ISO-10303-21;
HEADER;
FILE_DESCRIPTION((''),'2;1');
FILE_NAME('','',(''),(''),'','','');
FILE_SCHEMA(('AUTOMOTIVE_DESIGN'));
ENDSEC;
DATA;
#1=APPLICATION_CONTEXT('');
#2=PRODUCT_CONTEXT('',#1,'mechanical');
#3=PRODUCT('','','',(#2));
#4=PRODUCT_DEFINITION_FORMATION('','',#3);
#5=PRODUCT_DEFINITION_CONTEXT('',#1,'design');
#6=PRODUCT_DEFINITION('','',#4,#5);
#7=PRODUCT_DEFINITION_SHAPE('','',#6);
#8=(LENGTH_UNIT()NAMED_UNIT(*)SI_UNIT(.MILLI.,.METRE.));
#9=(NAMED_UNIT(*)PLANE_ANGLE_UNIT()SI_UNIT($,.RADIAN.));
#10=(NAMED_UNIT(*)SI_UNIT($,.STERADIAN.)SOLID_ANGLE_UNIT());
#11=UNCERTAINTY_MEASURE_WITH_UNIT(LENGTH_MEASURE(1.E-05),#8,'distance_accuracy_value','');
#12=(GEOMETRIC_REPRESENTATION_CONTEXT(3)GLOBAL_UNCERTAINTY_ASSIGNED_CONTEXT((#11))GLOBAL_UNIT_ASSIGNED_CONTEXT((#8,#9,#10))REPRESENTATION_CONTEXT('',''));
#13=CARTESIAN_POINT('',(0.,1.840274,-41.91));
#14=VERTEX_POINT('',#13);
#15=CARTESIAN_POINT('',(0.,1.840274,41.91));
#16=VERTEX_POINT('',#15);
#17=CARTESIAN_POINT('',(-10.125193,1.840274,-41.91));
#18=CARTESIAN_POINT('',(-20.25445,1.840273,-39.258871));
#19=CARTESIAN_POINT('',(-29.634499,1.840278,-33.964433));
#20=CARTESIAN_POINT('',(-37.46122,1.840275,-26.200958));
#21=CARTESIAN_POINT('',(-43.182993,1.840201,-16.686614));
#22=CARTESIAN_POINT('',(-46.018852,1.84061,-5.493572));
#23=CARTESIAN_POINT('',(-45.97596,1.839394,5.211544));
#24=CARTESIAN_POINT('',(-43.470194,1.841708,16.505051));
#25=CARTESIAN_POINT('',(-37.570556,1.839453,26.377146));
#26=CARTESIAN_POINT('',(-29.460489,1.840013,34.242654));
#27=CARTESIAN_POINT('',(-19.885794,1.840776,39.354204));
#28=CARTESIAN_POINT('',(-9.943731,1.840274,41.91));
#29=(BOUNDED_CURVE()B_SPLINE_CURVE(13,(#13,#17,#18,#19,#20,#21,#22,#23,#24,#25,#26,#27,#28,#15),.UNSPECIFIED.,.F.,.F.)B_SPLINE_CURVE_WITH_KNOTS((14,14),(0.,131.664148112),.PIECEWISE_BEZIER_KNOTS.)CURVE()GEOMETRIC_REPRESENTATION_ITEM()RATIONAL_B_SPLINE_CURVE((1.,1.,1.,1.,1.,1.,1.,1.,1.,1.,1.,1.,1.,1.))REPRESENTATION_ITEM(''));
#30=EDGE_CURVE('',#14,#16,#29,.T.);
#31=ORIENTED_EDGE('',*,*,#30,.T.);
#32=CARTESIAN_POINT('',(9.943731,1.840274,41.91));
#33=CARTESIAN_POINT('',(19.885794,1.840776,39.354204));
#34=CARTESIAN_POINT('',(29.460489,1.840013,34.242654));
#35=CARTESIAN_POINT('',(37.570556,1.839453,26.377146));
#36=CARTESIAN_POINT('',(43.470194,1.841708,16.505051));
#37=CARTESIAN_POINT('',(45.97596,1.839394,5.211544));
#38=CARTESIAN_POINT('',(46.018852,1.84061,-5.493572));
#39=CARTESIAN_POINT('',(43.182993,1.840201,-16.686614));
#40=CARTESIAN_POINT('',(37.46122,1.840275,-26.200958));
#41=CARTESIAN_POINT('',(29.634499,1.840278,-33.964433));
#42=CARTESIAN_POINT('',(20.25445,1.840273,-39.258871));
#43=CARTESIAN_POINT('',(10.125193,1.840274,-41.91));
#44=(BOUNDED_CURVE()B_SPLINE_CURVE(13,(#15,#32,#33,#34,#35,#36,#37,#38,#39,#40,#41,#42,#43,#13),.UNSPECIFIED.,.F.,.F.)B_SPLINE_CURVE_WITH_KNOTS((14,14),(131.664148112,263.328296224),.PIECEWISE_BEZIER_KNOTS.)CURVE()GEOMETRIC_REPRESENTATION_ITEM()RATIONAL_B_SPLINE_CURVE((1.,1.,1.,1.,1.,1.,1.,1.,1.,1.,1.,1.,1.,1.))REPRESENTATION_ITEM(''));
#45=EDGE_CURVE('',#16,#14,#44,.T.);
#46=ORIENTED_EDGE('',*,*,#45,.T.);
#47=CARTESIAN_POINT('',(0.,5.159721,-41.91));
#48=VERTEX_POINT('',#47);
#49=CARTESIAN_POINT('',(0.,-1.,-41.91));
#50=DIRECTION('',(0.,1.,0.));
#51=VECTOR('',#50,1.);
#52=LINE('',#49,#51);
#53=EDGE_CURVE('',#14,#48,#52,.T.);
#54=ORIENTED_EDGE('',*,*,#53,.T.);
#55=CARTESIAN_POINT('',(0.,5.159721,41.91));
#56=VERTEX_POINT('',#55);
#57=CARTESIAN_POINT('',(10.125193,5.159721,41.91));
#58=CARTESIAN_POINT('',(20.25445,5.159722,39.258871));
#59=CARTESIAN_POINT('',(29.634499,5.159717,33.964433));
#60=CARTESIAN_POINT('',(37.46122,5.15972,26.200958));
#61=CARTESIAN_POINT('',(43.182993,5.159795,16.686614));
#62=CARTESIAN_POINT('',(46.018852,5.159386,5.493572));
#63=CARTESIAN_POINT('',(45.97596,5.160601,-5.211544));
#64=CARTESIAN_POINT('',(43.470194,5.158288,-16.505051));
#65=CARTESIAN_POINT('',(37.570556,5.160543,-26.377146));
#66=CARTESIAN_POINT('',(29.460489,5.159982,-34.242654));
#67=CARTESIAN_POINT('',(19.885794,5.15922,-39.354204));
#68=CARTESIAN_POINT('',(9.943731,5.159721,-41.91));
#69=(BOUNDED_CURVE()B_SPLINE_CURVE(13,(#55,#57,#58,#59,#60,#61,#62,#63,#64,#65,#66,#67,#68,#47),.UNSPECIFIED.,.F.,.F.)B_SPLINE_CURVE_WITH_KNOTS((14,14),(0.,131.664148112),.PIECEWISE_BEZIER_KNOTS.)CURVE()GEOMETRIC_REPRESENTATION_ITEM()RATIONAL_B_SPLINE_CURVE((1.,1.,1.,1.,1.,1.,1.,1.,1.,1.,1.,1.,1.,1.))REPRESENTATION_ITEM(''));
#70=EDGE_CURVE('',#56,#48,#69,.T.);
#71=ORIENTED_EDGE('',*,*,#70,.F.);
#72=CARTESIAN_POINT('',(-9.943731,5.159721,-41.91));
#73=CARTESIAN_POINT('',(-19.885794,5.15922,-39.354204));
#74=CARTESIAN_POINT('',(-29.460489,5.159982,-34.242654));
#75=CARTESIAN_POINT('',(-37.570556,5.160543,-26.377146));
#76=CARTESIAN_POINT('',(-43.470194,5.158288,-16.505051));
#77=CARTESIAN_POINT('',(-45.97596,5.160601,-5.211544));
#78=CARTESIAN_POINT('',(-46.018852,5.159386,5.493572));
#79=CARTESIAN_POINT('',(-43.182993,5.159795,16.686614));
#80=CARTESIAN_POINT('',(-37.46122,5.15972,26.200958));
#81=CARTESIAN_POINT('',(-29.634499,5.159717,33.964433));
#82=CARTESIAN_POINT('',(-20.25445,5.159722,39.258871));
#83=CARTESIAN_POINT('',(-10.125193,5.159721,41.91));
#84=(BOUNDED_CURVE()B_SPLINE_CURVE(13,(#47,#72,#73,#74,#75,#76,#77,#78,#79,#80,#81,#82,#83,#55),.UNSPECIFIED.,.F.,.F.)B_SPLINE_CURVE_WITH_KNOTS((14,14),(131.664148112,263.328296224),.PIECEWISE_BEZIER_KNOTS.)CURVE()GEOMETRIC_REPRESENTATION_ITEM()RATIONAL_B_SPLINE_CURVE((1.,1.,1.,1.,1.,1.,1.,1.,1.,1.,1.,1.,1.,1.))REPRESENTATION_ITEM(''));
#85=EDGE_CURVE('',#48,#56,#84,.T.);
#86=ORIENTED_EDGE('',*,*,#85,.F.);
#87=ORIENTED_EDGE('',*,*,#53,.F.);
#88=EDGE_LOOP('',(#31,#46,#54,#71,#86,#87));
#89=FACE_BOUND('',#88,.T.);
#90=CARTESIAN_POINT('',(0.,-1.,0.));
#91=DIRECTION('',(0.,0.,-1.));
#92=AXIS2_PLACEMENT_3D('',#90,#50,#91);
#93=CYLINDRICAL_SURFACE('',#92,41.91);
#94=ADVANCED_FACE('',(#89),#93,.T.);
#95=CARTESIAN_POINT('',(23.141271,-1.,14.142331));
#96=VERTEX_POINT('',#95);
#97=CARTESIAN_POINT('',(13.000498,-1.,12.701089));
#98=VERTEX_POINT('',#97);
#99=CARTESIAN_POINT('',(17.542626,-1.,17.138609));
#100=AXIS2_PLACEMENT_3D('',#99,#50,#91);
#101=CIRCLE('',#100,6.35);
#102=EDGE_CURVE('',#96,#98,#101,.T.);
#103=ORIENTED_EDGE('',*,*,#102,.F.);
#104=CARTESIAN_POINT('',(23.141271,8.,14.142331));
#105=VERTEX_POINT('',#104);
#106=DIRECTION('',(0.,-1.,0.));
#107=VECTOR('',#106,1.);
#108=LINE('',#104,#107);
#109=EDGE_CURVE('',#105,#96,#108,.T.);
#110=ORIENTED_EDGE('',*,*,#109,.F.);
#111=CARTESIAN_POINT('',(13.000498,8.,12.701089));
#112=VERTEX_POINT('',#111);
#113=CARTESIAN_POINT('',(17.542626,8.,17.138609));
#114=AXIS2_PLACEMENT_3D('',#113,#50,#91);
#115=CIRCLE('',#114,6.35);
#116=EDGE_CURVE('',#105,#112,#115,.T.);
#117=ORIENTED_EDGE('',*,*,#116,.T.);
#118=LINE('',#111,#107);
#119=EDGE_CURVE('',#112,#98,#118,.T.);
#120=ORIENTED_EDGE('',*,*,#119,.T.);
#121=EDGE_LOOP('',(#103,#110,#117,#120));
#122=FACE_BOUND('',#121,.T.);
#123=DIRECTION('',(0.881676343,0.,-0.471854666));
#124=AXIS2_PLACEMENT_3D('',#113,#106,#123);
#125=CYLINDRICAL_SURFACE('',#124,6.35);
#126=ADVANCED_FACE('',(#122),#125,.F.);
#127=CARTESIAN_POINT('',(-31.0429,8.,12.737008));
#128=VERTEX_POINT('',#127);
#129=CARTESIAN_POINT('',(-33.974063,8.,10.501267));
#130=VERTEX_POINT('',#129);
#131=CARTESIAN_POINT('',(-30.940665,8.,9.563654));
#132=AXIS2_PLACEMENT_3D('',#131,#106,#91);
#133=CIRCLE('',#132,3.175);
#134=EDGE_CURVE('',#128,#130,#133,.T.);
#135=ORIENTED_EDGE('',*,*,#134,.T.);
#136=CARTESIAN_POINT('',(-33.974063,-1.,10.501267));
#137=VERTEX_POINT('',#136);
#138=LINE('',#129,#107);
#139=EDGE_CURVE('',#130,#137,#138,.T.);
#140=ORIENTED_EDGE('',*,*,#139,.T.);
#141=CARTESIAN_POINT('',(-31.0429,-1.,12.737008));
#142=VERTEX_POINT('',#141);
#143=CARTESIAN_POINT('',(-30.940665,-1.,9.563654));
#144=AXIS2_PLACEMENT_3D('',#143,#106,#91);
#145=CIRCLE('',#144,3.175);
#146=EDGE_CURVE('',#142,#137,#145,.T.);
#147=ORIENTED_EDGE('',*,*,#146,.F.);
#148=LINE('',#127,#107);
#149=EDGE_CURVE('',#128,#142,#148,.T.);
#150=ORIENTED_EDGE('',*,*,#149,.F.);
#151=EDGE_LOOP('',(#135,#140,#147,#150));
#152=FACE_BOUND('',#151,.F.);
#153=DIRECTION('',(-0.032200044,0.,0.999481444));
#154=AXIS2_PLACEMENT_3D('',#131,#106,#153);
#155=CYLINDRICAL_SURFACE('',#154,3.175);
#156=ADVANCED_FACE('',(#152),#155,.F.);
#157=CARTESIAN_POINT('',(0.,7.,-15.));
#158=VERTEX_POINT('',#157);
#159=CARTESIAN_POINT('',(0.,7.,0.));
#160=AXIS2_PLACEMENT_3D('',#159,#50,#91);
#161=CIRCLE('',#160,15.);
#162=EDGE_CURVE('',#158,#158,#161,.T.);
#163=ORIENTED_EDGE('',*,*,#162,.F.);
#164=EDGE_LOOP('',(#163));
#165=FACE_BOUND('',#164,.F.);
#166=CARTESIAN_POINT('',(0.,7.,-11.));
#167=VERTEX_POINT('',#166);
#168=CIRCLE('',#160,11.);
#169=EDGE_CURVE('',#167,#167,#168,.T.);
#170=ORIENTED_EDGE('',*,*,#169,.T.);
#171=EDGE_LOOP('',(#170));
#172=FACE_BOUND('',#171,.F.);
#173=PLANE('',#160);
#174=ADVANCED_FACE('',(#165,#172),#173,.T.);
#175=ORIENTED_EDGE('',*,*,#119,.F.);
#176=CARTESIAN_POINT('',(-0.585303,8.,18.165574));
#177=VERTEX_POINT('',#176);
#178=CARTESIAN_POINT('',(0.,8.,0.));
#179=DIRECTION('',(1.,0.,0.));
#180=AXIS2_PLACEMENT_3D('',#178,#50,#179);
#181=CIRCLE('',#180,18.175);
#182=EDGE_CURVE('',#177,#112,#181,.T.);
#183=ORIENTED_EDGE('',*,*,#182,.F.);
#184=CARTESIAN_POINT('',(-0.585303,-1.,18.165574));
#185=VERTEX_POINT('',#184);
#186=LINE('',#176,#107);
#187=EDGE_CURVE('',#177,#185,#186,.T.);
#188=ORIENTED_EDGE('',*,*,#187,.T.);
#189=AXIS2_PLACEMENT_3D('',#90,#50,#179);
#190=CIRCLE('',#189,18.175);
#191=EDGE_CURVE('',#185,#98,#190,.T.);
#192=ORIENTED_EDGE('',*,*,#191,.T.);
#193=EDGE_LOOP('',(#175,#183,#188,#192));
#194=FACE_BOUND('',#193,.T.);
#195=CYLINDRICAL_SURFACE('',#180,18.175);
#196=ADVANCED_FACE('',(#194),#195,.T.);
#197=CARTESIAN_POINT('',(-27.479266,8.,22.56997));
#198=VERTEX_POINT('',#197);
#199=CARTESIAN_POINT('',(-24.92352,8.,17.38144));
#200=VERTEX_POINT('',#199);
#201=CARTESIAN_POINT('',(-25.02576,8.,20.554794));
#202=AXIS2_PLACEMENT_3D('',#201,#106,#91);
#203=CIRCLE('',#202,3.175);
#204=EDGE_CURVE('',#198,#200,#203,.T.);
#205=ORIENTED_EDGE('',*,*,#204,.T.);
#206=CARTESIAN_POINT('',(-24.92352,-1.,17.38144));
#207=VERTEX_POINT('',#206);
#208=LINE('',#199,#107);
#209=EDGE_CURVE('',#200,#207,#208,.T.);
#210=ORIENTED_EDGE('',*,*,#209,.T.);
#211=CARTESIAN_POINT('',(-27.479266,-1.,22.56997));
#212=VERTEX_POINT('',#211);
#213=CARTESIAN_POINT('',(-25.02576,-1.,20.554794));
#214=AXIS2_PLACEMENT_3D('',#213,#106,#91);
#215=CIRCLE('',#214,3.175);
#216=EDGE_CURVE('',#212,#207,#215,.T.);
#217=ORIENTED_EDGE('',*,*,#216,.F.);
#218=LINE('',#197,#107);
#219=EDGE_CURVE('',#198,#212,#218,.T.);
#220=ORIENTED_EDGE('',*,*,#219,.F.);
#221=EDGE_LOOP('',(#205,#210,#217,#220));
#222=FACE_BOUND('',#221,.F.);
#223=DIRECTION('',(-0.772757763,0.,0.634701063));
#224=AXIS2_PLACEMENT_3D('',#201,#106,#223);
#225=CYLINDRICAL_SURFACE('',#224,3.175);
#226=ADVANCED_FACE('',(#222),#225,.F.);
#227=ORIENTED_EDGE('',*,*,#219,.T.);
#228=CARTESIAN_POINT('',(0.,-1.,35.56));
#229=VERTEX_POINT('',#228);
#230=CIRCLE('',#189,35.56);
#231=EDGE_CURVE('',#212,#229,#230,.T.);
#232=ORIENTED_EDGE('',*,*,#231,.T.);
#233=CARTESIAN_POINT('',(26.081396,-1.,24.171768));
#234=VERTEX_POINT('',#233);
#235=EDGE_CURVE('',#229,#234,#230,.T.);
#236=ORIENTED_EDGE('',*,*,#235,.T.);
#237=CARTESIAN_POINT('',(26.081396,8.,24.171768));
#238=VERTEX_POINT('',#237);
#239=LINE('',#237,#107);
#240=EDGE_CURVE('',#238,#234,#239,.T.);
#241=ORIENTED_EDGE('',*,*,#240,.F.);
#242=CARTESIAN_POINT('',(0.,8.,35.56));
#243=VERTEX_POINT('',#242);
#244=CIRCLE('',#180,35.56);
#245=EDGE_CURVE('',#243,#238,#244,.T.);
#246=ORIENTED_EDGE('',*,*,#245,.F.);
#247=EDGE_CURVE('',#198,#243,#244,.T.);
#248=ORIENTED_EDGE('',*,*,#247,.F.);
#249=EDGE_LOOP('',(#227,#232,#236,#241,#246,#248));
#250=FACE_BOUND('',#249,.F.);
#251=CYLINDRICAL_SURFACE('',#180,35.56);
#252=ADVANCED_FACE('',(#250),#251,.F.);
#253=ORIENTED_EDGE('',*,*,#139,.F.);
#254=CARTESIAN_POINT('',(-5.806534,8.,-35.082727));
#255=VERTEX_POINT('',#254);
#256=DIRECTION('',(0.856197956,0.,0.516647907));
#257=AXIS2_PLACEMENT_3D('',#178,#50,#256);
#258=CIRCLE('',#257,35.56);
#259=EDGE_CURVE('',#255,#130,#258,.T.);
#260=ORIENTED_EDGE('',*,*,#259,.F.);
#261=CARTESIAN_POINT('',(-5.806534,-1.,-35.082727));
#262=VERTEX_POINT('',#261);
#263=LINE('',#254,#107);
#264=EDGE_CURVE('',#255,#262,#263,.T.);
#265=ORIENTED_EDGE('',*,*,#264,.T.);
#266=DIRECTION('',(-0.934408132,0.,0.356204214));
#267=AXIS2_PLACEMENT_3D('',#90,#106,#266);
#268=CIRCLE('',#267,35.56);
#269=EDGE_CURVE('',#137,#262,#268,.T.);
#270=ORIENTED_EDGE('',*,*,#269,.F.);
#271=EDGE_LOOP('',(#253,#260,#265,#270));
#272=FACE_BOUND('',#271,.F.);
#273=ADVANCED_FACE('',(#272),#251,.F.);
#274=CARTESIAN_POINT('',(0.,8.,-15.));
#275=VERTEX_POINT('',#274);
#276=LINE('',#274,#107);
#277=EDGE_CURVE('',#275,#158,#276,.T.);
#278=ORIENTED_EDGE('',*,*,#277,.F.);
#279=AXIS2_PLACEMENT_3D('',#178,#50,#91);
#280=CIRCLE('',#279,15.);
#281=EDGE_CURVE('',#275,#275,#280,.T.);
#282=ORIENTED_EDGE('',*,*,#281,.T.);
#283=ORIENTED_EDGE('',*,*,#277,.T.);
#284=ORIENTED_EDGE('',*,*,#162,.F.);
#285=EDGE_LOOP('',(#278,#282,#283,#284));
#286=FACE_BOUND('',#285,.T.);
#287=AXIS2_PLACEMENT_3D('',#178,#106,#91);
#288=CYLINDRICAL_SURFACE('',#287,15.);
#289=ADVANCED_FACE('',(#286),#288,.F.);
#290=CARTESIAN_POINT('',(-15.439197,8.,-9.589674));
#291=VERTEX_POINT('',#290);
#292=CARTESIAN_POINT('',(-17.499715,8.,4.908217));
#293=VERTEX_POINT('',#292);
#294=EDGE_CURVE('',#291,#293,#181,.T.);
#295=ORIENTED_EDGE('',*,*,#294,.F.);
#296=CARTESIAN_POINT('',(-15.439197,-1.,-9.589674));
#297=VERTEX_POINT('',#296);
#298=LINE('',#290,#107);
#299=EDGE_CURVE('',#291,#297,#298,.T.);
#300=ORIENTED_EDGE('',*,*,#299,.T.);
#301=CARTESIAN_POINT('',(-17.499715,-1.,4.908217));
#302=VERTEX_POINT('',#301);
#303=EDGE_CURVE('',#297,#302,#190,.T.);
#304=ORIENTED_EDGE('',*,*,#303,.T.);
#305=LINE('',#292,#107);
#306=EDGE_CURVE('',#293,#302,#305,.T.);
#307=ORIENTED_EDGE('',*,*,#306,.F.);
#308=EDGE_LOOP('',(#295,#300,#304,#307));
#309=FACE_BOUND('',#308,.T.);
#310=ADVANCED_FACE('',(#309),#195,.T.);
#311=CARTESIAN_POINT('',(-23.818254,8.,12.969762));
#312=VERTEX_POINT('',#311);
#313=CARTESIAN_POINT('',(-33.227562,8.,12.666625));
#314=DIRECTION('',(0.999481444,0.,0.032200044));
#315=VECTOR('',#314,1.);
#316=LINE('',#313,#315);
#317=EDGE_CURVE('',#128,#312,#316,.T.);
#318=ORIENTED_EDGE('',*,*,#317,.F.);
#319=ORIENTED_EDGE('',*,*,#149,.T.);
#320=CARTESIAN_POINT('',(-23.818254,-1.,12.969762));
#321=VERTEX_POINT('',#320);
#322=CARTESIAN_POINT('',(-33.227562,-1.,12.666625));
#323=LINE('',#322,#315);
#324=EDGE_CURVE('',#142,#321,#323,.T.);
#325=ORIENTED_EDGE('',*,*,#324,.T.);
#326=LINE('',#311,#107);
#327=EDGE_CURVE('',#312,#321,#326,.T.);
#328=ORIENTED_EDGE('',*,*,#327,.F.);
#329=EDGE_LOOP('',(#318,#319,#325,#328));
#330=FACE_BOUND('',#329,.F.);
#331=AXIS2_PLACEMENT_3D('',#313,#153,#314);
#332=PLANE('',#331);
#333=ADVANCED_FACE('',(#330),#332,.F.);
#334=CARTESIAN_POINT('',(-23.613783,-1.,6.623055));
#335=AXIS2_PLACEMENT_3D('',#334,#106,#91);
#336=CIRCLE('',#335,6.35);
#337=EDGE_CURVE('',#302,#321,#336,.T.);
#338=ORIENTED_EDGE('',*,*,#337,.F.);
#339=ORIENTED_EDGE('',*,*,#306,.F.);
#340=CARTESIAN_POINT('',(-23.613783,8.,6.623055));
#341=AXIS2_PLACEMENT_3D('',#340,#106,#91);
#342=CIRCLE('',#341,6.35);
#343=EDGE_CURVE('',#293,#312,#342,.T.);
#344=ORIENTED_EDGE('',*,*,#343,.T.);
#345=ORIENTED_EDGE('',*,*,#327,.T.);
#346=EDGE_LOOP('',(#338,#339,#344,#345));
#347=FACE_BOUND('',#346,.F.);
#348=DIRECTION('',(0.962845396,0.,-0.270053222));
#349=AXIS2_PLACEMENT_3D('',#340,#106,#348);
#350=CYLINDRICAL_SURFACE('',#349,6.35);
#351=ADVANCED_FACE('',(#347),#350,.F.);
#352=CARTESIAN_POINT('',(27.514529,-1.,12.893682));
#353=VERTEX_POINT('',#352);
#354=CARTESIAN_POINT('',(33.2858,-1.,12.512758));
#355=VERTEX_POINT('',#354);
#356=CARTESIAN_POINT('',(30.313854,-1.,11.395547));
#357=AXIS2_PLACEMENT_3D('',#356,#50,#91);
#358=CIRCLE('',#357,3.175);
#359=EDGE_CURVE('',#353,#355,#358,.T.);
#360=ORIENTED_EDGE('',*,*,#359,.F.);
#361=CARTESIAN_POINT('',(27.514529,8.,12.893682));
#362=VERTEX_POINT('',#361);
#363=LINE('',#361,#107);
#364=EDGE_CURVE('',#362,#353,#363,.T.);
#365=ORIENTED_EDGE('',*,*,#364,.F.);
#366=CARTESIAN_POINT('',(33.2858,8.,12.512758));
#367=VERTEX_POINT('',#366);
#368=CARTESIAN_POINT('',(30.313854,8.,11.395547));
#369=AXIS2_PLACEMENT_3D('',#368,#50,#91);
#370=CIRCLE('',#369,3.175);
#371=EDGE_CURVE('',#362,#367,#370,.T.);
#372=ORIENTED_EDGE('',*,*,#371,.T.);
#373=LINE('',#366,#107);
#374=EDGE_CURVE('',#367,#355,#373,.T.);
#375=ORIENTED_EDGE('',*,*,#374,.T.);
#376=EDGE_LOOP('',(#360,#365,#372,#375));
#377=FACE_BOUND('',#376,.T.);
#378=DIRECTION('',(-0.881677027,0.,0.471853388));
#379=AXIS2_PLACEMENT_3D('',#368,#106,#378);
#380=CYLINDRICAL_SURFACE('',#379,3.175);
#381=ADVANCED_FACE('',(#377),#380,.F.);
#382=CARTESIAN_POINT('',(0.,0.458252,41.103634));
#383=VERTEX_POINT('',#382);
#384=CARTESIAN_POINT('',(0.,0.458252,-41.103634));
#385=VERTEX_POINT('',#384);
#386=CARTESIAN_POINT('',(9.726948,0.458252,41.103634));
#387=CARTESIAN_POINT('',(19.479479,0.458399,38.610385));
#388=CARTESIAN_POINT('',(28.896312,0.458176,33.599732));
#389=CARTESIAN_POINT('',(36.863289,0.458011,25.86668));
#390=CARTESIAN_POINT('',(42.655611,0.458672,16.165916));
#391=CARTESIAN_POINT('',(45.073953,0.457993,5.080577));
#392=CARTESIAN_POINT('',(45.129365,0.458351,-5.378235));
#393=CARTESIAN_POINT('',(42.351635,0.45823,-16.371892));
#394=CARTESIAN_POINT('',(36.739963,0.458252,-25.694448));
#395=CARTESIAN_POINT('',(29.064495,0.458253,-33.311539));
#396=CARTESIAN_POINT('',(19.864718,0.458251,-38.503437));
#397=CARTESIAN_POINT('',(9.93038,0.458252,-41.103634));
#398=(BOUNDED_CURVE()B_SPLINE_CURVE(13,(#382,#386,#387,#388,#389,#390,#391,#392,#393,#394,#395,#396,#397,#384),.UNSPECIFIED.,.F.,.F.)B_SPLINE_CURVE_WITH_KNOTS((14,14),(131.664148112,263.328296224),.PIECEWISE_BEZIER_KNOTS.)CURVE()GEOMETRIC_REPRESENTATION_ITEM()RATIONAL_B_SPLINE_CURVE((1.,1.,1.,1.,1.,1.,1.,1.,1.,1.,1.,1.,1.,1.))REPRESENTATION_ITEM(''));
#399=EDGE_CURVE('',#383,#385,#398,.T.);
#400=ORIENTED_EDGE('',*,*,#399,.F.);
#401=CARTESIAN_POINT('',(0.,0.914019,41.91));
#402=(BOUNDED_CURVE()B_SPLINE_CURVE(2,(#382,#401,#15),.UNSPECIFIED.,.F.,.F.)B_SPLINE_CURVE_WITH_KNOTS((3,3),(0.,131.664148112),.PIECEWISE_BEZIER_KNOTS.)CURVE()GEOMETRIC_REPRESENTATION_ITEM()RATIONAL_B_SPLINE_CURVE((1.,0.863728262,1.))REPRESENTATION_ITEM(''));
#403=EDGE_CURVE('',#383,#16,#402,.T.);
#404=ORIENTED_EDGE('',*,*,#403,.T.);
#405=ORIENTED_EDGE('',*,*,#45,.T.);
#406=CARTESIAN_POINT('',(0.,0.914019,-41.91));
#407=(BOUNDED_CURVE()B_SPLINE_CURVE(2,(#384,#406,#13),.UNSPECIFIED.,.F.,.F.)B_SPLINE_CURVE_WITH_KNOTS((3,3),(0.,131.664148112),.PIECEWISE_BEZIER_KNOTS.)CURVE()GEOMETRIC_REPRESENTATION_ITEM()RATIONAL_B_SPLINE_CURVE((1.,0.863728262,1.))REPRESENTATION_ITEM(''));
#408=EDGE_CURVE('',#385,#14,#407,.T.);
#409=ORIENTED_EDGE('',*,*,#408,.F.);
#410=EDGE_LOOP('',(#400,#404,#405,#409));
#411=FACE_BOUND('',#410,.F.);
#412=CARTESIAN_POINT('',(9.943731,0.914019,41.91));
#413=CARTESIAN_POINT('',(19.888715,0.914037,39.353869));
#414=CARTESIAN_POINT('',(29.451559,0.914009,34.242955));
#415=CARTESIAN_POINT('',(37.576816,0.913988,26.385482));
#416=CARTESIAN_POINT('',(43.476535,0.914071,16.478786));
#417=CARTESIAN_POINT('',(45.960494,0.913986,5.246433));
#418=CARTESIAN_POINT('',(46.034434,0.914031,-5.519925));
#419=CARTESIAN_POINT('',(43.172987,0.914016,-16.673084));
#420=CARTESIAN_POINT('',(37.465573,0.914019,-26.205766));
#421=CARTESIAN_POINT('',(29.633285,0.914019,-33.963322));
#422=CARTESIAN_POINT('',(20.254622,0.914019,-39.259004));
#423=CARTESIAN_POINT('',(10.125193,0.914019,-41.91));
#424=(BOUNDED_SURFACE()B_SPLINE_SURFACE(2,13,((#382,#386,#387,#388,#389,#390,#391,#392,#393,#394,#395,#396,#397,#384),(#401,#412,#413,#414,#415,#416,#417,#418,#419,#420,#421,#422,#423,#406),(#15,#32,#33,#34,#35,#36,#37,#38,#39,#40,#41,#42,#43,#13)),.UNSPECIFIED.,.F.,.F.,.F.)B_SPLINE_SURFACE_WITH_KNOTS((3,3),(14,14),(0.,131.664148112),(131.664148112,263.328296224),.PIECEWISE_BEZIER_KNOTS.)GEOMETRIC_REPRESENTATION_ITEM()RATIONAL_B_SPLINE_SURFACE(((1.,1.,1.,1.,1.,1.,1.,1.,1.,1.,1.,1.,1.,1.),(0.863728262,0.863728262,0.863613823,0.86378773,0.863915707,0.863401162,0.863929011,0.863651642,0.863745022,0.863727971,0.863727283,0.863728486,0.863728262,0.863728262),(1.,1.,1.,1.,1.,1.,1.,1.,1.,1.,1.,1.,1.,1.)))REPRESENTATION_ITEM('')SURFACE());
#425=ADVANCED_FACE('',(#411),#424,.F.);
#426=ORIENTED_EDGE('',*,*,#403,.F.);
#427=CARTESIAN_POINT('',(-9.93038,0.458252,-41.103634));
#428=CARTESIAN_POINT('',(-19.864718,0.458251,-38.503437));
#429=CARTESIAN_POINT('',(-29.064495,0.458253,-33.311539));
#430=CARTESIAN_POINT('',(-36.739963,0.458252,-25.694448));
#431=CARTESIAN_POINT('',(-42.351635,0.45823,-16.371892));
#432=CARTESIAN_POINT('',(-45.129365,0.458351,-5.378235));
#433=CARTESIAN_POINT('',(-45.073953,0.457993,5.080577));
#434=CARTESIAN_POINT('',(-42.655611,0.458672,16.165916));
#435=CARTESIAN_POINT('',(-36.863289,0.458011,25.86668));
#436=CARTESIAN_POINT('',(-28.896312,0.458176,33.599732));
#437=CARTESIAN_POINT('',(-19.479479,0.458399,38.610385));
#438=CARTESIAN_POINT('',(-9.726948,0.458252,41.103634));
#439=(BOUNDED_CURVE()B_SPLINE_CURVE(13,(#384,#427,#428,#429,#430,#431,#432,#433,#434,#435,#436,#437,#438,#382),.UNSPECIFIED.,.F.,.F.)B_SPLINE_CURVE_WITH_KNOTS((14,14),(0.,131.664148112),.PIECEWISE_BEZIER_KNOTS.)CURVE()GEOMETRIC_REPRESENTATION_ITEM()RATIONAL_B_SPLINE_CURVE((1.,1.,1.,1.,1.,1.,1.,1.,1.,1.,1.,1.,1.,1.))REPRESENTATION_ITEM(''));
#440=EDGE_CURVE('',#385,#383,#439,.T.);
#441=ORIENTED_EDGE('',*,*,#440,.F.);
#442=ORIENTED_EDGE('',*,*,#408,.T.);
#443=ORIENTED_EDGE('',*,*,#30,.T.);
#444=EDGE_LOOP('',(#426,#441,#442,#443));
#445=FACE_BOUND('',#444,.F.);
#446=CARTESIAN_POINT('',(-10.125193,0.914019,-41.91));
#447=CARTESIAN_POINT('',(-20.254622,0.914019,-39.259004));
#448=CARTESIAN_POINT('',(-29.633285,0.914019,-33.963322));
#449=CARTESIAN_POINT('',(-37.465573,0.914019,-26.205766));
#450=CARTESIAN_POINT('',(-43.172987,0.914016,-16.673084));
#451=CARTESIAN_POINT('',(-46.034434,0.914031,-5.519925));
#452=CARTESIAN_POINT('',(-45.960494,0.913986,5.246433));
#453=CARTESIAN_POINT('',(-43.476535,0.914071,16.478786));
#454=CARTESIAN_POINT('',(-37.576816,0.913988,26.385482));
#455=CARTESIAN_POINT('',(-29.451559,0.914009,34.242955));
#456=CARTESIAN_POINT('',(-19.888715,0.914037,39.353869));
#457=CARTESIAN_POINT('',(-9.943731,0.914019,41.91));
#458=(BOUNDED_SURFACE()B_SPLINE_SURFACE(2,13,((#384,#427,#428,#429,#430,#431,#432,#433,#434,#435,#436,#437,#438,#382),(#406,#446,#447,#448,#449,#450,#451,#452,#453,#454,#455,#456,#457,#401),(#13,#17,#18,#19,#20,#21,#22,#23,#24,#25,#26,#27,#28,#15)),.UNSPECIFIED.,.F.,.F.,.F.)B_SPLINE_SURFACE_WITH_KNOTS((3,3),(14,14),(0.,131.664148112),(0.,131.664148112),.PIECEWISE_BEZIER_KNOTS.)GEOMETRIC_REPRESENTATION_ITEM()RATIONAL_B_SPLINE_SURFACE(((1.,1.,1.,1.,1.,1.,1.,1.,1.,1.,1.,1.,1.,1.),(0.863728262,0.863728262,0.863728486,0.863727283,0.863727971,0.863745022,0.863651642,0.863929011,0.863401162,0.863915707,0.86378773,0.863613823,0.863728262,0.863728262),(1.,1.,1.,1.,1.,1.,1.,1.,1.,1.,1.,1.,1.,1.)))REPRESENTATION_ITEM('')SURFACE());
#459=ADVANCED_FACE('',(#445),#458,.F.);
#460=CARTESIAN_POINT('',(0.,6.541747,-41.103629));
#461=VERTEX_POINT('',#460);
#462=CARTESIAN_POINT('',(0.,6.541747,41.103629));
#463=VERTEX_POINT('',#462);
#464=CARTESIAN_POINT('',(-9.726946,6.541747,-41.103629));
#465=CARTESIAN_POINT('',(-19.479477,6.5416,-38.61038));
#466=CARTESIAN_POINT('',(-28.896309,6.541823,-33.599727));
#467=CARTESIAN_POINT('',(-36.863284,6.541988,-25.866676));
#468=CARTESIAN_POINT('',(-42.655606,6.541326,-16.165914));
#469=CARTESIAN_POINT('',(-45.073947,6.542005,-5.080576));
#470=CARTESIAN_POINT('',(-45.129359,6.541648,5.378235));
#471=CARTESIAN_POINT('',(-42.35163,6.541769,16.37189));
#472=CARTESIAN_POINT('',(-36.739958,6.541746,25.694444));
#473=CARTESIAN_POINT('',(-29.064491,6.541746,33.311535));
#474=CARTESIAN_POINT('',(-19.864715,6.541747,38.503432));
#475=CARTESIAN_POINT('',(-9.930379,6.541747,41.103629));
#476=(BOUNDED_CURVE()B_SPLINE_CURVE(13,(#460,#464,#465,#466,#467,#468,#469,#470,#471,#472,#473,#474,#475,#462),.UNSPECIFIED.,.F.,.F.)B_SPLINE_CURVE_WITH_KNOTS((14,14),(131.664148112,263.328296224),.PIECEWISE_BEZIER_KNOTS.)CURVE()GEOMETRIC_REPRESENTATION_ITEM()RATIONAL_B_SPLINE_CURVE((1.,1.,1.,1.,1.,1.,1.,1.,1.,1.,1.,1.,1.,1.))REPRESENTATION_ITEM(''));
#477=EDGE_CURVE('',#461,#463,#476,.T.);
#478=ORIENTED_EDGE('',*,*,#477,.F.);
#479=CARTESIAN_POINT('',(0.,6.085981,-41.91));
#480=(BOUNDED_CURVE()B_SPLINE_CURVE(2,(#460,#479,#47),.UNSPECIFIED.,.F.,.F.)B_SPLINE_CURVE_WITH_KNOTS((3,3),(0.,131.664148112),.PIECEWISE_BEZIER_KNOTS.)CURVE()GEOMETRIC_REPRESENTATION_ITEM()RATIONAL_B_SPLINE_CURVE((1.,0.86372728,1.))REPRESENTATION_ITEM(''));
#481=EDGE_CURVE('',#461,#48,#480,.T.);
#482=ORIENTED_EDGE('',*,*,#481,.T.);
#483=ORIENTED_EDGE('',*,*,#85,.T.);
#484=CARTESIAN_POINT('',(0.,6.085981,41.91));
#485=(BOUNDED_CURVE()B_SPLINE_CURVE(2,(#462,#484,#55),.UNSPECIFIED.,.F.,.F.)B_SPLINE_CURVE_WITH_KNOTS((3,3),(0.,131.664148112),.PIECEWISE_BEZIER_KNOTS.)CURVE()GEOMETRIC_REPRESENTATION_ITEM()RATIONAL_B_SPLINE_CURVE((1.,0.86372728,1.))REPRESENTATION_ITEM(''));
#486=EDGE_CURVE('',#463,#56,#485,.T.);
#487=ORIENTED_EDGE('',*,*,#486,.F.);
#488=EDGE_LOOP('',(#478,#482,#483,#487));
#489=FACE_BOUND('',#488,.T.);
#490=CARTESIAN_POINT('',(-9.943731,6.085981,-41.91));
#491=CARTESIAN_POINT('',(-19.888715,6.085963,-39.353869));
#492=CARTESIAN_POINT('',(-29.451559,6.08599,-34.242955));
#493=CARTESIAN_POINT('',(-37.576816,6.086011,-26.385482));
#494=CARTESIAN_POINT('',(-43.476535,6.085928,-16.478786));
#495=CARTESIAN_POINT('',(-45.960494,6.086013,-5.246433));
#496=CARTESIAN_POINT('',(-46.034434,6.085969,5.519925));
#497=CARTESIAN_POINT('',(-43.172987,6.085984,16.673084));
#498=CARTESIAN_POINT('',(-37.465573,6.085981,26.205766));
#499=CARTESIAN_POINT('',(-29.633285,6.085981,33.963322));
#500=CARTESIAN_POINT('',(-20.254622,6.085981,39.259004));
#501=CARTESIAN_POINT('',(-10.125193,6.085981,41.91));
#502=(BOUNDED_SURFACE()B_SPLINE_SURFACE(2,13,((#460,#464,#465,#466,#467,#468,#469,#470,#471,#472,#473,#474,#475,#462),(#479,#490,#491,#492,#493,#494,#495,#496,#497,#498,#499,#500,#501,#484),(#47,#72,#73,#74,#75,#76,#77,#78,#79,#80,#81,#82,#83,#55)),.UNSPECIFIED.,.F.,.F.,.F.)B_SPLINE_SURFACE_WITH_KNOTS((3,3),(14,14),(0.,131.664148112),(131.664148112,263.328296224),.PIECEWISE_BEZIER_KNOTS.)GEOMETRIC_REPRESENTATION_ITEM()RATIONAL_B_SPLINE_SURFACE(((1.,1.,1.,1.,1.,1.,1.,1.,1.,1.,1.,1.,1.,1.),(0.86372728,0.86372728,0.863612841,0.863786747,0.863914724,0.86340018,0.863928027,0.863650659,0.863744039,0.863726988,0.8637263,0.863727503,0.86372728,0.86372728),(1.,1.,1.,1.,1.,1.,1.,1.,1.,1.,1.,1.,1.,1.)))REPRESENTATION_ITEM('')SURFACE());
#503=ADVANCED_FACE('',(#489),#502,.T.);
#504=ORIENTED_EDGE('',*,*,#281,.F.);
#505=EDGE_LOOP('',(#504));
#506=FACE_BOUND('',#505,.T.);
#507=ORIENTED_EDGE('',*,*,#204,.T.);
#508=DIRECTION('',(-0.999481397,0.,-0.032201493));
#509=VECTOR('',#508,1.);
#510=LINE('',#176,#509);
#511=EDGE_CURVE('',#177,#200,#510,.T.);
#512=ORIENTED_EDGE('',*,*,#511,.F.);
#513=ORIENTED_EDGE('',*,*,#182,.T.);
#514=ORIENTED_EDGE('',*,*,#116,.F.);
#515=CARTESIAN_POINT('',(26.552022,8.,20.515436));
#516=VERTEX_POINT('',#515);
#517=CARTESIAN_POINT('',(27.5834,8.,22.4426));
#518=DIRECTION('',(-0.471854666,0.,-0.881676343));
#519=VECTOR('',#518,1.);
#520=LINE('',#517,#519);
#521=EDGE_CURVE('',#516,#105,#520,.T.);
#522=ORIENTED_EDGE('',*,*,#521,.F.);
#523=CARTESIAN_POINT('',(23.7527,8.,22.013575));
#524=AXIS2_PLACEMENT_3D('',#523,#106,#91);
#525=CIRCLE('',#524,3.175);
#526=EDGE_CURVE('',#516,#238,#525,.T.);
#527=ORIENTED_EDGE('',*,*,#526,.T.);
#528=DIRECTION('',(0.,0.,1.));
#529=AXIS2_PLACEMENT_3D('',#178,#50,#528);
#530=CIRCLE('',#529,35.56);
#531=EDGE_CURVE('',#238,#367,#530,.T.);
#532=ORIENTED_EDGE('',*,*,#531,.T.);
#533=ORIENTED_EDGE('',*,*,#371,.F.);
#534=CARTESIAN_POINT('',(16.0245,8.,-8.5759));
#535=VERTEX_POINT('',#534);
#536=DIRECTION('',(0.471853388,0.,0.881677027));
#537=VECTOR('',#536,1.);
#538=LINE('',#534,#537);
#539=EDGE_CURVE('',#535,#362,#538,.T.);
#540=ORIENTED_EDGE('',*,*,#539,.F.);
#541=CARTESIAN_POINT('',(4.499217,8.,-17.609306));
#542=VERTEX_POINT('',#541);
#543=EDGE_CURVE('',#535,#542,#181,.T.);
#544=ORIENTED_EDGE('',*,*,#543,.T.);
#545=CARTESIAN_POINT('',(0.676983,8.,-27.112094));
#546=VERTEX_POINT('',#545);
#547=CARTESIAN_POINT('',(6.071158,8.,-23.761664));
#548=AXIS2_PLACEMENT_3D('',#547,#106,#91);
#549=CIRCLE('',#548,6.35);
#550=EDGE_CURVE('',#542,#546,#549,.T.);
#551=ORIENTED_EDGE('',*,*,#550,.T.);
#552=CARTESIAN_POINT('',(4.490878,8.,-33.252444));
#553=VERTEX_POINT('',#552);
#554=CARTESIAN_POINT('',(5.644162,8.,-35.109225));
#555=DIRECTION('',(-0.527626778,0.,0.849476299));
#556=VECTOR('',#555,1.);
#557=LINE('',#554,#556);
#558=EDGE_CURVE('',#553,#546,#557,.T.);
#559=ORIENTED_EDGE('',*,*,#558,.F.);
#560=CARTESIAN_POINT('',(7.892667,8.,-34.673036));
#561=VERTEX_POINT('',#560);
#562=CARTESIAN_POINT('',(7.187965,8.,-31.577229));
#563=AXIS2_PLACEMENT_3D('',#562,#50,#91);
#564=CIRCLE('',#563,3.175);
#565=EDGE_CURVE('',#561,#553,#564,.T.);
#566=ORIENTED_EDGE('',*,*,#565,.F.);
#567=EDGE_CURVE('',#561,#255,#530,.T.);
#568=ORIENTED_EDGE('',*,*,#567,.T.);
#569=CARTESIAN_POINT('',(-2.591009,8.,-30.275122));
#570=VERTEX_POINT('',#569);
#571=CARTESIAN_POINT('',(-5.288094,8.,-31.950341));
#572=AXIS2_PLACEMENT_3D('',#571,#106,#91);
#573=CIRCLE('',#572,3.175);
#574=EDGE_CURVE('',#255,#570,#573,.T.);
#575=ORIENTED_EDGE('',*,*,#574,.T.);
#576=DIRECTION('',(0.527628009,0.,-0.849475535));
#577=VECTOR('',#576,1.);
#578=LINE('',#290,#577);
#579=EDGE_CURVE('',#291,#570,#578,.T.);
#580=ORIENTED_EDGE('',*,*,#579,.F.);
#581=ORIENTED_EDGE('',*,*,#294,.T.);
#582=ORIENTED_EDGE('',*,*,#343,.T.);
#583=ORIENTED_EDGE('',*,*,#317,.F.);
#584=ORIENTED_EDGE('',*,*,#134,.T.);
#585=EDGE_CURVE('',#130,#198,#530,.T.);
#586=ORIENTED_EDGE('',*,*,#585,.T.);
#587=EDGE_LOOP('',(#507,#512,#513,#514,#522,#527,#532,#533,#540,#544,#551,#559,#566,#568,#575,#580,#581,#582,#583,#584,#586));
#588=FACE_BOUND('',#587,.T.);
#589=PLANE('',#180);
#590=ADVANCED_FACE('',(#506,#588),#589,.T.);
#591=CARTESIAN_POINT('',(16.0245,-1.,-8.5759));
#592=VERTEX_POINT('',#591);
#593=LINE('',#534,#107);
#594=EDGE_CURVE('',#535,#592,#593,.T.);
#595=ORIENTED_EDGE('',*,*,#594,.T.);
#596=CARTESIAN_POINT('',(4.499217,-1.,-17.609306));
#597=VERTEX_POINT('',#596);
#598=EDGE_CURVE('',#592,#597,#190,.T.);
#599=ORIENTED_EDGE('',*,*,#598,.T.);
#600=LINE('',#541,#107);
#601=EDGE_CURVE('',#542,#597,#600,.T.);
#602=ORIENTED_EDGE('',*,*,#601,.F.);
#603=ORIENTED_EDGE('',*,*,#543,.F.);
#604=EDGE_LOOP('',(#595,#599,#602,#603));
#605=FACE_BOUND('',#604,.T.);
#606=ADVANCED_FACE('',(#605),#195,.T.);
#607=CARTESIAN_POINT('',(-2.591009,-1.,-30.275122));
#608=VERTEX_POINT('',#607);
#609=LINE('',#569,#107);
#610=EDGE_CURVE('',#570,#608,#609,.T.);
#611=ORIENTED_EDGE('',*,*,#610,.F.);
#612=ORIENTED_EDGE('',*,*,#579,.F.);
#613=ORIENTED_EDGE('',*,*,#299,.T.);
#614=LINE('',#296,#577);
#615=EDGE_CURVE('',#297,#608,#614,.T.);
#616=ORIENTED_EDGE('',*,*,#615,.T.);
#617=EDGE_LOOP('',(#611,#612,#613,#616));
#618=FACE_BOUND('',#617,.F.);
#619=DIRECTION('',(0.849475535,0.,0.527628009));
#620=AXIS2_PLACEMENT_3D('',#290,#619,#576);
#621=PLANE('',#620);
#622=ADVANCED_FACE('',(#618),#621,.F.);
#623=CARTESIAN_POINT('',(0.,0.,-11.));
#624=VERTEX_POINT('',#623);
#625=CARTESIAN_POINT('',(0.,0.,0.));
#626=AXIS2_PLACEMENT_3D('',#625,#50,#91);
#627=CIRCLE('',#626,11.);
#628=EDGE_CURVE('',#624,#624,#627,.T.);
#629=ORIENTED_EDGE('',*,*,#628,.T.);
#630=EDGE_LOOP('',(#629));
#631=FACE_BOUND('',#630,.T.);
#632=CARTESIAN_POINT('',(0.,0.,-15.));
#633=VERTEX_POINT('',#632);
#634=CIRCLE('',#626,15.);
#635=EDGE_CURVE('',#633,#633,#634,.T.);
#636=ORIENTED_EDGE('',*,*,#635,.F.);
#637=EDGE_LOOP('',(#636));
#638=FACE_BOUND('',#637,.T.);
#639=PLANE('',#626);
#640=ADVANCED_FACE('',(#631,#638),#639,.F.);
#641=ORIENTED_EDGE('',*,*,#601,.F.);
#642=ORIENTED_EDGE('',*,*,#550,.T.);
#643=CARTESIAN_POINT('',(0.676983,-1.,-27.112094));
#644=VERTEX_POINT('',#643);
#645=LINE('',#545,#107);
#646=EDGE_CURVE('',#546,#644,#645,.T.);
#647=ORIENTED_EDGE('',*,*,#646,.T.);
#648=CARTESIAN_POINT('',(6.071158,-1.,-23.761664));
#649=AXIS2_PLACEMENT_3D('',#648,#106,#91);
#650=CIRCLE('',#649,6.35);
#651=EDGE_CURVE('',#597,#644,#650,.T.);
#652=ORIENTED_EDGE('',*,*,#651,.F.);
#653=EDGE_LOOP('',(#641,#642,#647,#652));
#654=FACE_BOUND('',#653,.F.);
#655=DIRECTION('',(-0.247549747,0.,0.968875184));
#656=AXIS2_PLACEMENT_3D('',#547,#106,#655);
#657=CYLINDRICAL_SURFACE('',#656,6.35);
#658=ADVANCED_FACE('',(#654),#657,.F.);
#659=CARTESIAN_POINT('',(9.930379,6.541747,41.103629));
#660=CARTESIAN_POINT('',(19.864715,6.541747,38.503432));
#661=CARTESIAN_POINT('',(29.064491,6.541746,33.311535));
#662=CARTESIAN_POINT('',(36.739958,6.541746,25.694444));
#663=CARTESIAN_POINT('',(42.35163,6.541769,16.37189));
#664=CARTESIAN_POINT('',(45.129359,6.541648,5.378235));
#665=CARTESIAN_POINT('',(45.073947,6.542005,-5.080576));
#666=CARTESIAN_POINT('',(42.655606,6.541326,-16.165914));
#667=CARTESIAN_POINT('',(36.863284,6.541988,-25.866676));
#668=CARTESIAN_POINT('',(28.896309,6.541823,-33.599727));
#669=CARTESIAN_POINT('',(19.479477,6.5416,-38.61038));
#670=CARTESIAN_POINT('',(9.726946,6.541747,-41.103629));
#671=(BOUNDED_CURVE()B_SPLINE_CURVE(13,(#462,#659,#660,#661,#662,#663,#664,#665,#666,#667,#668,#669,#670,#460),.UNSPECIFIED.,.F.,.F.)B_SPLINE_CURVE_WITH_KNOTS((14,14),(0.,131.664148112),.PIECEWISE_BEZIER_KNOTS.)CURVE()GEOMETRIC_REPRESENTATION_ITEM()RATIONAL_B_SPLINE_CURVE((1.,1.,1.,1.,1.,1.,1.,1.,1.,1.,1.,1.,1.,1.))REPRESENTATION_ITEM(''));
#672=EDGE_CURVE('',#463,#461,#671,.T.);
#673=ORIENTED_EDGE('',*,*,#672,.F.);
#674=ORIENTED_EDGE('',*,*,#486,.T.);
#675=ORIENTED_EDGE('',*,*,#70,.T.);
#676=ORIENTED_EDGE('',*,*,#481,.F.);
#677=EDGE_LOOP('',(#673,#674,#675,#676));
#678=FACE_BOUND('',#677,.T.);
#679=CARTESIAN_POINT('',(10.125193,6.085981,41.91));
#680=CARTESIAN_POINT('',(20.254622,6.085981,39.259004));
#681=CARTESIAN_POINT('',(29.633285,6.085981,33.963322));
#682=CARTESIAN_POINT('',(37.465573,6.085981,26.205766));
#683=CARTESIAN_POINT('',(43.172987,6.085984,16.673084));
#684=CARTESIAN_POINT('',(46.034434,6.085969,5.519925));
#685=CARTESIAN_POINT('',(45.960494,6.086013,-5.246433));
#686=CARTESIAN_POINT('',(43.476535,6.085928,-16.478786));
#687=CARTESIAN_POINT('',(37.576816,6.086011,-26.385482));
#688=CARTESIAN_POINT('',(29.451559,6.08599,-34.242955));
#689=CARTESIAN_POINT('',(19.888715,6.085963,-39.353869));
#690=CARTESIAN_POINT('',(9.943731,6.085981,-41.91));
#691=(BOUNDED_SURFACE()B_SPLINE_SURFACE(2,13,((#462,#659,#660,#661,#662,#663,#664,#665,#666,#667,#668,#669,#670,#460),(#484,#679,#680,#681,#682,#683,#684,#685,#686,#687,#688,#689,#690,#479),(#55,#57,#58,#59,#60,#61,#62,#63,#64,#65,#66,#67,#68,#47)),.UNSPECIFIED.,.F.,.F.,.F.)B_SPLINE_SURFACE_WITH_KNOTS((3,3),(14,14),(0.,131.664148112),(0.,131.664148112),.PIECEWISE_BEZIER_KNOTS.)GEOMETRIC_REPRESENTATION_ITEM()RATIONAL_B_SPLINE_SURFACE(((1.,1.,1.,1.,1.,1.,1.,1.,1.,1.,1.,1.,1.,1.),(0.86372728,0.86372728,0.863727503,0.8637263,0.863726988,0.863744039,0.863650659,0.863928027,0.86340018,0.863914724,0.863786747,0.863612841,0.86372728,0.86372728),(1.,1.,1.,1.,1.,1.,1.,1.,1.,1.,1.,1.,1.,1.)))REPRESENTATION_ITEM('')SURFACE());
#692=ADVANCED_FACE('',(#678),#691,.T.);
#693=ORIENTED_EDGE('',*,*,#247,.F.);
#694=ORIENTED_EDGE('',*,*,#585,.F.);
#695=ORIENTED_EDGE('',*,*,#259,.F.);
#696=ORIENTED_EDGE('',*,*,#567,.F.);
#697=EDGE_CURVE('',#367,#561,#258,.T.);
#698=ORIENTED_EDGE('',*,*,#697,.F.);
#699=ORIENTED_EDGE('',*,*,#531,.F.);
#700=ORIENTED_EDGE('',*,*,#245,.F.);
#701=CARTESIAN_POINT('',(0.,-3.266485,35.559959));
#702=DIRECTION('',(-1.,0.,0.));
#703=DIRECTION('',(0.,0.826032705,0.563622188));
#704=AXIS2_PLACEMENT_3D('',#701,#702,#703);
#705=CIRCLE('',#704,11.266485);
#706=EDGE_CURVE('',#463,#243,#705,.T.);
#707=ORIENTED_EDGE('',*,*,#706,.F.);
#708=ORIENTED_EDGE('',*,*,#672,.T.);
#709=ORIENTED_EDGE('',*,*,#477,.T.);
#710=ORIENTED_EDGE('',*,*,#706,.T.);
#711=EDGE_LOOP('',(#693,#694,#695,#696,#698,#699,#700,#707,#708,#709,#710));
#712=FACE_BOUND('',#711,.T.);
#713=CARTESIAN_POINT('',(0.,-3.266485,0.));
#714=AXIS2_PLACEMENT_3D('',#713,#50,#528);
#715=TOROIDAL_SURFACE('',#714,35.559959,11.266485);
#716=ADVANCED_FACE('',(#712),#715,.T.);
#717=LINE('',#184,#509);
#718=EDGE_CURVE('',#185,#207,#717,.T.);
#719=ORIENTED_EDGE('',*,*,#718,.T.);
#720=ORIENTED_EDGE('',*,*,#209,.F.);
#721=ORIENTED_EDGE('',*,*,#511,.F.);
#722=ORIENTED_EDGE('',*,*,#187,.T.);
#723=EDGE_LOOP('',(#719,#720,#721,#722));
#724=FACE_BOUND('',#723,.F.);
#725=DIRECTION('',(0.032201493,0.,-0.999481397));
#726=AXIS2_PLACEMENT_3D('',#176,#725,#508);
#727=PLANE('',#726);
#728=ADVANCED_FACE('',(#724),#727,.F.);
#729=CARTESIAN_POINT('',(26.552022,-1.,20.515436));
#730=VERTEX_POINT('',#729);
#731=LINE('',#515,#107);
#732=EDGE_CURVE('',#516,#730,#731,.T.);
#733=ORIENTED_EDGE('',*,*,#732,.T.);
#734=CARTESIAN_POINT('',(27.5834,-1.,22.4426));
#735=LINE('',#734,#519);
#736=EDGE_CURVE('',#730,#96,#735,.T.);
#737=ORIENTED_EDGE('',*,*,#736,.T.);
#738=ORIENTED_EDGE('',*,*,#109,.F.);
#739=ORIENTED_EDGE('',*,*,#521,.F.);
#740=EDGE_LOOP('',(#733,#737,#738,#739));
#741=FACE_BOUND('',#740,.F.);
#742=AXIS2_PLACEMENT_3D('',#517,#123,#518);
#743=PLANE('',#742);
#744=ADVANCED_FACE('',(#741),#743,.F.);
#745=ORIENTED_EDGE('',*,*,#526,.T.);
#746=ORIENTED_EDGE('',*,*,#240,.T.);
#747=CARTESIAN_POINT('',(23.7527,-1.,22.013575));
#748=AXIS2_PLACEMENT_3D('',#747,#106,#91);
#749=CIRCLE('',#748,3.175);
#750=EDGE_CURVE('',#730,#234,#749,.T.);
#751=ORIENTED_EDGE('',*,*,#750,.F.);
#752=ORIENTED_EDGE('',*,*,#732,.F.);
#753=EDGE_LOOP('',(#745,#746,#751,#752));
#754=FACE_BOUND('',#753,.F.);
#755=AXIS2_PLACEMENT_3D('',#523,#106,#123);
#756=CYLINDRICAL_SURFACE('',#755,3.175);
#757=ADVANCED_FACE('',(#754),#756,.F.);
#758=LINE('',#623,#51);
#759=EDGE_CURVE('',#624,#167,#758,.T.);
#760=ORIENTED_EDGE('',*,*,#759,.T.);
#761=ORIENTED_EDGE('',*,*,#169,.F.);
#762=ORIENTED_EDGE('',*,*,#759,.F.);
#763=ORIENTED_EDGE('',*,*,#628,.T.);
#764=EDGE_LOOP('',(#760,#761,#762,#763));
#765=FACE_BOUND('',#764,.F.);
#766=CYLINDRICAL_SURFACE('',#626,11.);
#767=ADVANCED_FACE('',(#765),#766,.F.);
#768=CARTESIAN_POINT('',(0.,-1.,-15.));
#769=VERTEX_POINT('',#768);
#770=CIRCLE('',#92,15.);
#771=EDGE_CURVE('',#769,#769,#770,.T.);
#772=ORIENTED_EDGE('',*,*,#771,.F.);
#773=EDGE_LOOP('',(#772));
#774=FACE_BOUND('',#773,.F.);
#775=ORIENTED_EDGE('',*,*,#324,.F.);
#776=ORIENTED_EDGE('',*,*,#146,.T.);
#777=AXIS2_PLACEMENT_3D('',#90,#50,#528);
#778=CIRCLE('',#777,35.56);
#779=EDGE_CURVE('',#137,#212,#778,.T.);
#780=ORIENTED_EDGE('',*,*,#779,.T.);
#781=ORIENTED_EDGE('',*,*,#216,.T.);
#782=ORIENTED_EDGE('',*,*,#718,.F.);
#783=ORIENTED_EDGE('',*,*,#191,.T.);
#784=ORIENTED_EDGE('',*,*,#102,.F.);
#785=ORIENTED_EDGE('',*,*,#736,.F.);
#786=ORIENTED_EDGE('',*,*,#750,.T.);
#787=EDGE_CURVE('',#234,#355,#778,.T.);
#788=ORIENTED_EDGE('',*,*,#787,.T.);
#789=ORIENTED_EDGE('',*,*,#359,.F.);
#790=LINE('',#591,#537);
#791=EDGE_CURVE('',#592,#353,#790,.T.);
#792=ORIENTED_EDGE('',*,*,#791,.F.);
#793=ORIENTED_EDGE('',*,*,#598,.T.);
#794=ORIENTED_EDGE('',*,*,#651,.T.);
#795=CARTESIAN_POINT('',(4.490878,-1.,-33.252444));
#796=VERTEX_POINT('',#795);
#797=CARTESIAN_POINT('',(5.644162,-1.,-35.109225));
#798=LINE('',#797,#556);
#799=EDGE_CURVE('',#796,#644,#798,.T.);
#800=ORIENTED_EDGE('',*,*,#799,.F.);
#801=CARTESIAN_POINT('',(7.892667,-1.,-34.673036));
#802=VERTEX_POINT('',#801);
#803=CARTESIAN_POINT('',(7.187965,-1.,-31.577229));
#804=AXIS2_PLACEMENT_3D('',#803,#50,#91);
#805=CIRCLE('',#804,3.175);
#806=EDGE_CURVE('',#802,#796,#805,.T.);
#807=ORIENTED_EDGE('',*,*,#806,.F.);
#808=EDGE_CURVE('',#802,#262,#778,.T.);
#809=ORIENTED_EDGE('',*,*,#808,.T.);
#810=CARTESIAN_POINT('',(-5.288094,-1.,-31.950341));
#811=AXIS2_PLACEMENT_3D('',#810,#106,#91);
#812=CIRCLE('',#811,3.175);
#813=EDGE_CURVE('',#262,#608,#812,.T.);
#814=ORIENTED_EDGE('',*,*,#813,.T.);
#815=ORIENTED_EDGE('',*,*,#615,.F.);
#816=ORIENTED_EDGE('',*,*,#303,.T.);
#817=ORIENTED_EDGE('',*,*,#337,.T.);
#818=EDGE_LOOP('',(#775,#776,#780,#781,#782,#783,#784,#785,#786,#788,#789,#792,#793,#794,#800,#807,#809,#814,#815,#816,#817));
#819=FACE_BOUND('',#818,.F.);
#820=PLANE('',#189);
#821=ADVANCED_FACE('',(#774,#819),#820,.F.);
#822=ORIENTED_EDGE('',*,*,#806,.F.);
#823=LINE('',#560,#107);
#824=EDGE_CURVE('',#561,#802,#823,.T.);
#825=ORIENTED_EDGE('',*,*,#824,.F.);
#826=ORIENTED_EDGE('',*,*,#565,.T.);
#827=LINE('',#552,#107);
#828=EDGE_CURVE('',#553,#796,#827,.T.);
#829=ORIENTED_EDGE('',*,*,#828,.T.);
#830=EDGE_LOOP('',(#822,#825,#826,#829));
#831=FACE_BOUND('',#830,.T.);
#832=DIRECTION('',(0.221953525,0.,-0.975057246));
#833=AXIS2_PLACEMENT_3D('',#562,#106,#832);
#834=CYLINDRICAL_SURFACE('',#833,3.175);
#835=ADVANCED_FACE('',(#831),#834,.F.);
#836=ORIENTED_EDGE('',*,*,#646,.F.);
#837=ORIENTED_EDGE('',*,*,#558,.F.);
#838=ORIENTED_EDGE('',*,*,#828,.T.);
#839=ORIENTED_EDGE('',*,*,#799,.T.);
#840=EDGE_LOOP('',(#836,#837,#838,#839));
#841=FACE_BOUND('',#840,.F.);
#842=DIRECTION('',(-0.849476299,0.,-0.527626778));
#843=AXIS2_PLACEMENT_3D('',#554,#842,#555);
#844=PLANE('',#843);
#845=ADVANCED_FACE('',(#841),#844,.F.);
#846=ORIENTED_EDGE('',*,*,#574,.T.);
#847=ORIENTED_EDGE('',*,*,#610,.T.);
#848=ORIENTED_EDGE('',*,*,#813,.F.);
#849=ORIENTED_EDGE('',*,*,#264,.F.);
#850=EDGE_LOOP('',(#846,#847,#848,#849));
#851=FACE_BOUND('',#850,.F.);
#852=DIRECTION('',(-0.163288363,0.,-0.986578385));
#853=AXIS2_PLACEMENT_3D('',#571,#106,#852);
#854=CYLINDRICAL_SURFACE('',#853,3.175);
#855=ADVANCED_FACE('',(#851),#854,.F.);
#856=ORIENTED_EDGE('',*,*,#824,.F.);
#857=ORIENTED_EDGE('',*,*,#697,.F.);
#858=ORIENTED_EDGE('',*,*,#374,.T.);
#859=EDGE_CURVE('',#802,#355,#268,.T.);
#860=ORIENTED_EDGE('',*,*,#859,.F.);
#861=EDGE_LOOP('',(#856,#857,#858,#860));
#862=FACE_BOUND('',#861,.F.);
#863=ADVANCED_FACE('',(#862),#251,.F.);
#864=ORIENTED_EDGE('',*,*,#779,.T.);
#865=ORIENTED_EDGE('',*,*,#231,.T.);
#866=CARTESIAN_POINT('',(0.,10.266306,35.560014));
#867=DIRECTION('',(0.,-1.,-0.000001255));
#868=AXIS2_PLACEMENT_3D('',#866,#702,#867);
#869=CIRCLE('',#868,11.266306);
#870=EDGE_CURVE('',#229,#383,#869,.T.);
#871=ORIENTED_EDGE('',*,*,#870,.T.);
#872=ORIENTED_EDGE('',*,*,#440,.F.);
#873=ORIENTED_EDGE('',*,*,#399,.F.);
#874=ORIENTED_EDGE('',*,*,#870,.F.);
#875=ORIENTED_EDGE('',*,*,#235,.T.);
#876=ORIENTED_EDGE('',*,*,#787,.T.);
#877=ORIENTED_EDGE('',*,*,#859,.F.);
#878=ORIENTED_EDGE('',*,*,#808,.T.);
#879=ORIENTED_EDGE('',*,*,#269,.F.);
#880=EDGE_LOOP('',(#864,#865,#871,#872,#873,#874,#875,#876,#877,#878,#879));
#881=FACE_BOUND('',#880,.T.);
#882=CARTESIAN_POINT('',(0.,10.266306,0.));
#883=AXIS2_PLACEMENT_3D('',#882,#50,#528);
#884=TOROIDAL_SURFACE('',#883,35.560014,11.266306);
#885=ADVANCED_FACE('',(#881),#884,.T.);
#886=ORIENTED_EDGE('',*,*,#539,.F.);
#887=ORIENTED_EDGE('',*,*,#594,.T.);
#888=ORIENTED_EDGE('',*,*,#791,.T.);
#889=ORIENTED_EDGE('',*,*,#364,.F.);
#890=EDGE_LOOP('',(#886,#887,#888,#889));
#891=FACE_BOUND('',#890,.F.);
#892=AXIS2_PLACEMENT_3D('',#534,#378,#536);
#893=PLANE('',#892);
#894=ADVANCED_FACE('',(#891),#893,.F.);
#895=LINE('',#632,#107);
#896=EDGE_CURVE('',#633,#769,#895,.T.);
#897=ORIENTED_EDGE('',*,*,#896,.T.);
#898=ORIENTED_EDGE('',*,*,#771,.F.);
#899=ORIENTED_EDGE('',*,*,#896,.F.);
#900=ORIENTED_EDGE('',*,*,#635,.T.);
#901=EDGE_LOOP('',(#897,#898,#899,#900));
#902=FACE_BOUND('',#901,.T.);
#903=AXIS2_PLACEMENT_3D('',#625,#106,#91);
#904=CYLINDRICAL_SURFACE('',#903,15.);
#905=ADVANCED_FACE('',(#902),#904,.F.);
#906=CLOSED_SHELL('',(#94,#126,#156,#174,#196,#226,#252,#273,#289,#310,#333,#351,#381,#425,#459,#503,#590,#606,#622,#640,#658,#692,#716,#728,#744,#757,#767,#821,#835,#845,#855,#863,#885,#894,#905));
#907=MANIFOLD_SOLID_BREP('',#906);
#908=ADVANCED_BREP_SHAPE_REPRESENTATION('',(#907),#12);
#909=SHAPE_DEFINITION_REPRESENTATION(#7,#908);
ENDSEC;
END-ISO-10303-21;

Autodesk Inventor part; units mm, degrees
ref_plane "YZ Plane" through (0, 0, 0) normal (1, 0, 0) x (0, 1, 0)
sketch "Sketch3" plane through (0, 0, 0) normal (1, 0, 0) x (0, 1, 0)
  line L0 (0, 0) -> (0, -11) construction
  line L1 (0, 0) -> (7, 0) construction
  line L2 (7, 0) -> (7, -11) construction
  line L3 (0, -11) -> (0, -41.91)
  line L4 (0, -41.91) -> (-1.9706, -41.91) construction
  line L5 (0, -11) -> (7, -11)
  line L6 (7, -11) -> (7, -41.91)
  line L7 (0, -41.91) -> (0, -39.6842) construction
  line L8 (0, -41.91) -> (7, -41.91)
  dimension "d7" = 7
  dimension "d8" = 11
  dimension "d9" = 41.91
revolve "Revolution1" add sketch "Sketch3" angle 360 about axis through (0, 0, 0) along (0, 1, 0)
ref_plane "Work Plane2" through (0, 0, 0) normal (-1, 0, 0) x (0, 1, 0)
sketch "Sketch4" plane through (0, 0, 0) normal (-1, 0, 0) x (0, 1, 0)
  line L0 (0, 0) -> (7, 0)
  line L1 (7, 41.91) -> (7, -41.91) projected
  line L2 (7, 0) -> (7, 11)
  line L3 (7, 0) -> (8, 0)
  line L4 (8, 0) -> (8, 15)
  line L5 (8, 15) -> (7, 15)
  line L6 (8, 15) -> (8, 41.91)
  line L7 (8, 41.91) -> (7, 41.91)
  line L8 (0, 0) -> (0, 0.75)
  line L9 (0, 11) -> (0, -11) projected
  line L10 (8, 15) -> (0, 15)
  line L11 (0, 41.91) -> (0, -41.91) projected
  line L12 (0, 15) -> (-1, 15)
  line L13 (-1, 15) -> (-1, 41.91)
  line L14 (-1, 41.91) -> (0, 41.91)
  dimension "d16" = 11
  dimension "d17" = 1
  dimension "d18" = 15
  dimension "d20" = 0.75
  dimension "d21" = 1
ref_plane "Work Plane3" through (0, 3.5, 0) normal (0, 1, 0) x (1, 0, 0)
revolve "Revolution2" add sketch "Sketch4" angle 360 about axis through (0, 0, 0) along (0, 1, 0) contours L12 L13 L14 L11 | L1 L7 L6 L5
sketch "Sketch5" plane through (0, 8, 0) normal (0, 1, 0) x (1, 0, 0)
  circle A0 centre (0, 0) radius 18.175
  circle A1 centre (0, 0) radius 15 projected
  circle A2 centre (0, 0) radius 41.91 projected
  circle A3 centre (0, 0) radius 35.56
  dimension "d22" = 3.175
  dimension "d23" = 6.35
extrude "Extrusion2" cut sketch "Sketch5" against normal through all contours A3
sketch "Sketch6" plane through (0, 8, 0) normal (0, 1, 0) x (1, 0, 0)
  circle A0 centre (0, 0) radius 18.175 projected
  circle A1 centre (0, 0) radius 35.56 projected
  line L0 (16.0245, 8.5759) -> (30.4464, -18.372)
  line L1 (27.5834, -22.4426) -> (17.7246, -4.0211)
  dimension "d26" = 4.445
extrude "Extrusion3" add sketch "Sketch6" against normal up to surface (9 mm away) contours A0 L0 A1 L1 picked at (22.1844, -5.1361)
pattern_circular "Circular Pattern1" count 3 over 360 about axis through (0, 3.5, 0) along (0, -1, 0) of "Extrusion3"
fillet "Fillet1" radius 6.35 3 edges at (-5.3799, 3.5, -17.3605) (17.7246, 3.5, 4.0211) (-12.3447, 3.5, 13.3394)
fillet "Fillet1" radius 3.175 3 edges at (27.5834, 3.5, 22.4426) (-33.2276, 3.5, 12.6666) (5.6442, 3.5, -35.1092)
fillet "Fillet1" radius 3.175 3 edges at (0.6874, 3.5, -35.5534) (-31.1338, 3.5, 17.1814) (30.4464, 3.5, 18.372)
sketch "Sketch7" plane through (0, 0, 0) normal (-1, 0, 0) x (0, 1, 0)
  line L0 (8, -41.91) -> (8, 41.91) projected
  line L1 (-1, -41.91) -> (-1, 41.91) projected
  line L2 (8, -41.91) -> (-1, -41.91) projected
  arc A0 (6.04, -41.91) -> (8, -35.56) centre (-3.2664, -35.56) ccw
  arc A1 (-1, -35.56) -> (0.96, -41.91) centre (10.2664, -35.56) ccw
  line L3 (0.96, -41.91) -> (6.04, -41.91)
  line L4 (-1, -35.56) -> (8, -35.56)
  line L5 (8, -22.57) -> (-1, -22.57) projected
  line L6 (8, -24.1718) -> (8, -35.56) projected
  line L7 (-1, -24.1718) -> (8, -24.1718) projected
  line L8 (-1, -22.57) -> (-1, -24.1718) projected
  line L9 (8, -35.56) -> (8, -35.56) projected
  line L10 (0, 0) -> (11.7377, 0)
  dimension "d36" = 6.35
  dimension "d37" = 5.08
revolve "Revolution3" cut sketch "Sketch7" angle 360 about axis through (0, 0, 0) along (0, 1, 0) contours L2 A0 L0 | A1 L2 L1
fillet "Fillet2" radius 1.5875 4 edges at (41.91, 6.04, 0) (-41.91, 6.04, 0) (-41.91, 0.96, 0) (41.91, 0.96, 0)
sketch "Sketch8" plane through (27.5145, 8, 12.8937) normal (0, 1, 0) x (0.8817, 0, -0.4719)
  circle A0 centre (-18.175, 24.3509) radius 19.05
  arc A1 (-27.2625, 8.6109) -> (-12.7058, 7.0183) centre (-18.175, 24.3509) ccw projected
  dimension "d40" = 38.1
properties part number "Spinner 1"
